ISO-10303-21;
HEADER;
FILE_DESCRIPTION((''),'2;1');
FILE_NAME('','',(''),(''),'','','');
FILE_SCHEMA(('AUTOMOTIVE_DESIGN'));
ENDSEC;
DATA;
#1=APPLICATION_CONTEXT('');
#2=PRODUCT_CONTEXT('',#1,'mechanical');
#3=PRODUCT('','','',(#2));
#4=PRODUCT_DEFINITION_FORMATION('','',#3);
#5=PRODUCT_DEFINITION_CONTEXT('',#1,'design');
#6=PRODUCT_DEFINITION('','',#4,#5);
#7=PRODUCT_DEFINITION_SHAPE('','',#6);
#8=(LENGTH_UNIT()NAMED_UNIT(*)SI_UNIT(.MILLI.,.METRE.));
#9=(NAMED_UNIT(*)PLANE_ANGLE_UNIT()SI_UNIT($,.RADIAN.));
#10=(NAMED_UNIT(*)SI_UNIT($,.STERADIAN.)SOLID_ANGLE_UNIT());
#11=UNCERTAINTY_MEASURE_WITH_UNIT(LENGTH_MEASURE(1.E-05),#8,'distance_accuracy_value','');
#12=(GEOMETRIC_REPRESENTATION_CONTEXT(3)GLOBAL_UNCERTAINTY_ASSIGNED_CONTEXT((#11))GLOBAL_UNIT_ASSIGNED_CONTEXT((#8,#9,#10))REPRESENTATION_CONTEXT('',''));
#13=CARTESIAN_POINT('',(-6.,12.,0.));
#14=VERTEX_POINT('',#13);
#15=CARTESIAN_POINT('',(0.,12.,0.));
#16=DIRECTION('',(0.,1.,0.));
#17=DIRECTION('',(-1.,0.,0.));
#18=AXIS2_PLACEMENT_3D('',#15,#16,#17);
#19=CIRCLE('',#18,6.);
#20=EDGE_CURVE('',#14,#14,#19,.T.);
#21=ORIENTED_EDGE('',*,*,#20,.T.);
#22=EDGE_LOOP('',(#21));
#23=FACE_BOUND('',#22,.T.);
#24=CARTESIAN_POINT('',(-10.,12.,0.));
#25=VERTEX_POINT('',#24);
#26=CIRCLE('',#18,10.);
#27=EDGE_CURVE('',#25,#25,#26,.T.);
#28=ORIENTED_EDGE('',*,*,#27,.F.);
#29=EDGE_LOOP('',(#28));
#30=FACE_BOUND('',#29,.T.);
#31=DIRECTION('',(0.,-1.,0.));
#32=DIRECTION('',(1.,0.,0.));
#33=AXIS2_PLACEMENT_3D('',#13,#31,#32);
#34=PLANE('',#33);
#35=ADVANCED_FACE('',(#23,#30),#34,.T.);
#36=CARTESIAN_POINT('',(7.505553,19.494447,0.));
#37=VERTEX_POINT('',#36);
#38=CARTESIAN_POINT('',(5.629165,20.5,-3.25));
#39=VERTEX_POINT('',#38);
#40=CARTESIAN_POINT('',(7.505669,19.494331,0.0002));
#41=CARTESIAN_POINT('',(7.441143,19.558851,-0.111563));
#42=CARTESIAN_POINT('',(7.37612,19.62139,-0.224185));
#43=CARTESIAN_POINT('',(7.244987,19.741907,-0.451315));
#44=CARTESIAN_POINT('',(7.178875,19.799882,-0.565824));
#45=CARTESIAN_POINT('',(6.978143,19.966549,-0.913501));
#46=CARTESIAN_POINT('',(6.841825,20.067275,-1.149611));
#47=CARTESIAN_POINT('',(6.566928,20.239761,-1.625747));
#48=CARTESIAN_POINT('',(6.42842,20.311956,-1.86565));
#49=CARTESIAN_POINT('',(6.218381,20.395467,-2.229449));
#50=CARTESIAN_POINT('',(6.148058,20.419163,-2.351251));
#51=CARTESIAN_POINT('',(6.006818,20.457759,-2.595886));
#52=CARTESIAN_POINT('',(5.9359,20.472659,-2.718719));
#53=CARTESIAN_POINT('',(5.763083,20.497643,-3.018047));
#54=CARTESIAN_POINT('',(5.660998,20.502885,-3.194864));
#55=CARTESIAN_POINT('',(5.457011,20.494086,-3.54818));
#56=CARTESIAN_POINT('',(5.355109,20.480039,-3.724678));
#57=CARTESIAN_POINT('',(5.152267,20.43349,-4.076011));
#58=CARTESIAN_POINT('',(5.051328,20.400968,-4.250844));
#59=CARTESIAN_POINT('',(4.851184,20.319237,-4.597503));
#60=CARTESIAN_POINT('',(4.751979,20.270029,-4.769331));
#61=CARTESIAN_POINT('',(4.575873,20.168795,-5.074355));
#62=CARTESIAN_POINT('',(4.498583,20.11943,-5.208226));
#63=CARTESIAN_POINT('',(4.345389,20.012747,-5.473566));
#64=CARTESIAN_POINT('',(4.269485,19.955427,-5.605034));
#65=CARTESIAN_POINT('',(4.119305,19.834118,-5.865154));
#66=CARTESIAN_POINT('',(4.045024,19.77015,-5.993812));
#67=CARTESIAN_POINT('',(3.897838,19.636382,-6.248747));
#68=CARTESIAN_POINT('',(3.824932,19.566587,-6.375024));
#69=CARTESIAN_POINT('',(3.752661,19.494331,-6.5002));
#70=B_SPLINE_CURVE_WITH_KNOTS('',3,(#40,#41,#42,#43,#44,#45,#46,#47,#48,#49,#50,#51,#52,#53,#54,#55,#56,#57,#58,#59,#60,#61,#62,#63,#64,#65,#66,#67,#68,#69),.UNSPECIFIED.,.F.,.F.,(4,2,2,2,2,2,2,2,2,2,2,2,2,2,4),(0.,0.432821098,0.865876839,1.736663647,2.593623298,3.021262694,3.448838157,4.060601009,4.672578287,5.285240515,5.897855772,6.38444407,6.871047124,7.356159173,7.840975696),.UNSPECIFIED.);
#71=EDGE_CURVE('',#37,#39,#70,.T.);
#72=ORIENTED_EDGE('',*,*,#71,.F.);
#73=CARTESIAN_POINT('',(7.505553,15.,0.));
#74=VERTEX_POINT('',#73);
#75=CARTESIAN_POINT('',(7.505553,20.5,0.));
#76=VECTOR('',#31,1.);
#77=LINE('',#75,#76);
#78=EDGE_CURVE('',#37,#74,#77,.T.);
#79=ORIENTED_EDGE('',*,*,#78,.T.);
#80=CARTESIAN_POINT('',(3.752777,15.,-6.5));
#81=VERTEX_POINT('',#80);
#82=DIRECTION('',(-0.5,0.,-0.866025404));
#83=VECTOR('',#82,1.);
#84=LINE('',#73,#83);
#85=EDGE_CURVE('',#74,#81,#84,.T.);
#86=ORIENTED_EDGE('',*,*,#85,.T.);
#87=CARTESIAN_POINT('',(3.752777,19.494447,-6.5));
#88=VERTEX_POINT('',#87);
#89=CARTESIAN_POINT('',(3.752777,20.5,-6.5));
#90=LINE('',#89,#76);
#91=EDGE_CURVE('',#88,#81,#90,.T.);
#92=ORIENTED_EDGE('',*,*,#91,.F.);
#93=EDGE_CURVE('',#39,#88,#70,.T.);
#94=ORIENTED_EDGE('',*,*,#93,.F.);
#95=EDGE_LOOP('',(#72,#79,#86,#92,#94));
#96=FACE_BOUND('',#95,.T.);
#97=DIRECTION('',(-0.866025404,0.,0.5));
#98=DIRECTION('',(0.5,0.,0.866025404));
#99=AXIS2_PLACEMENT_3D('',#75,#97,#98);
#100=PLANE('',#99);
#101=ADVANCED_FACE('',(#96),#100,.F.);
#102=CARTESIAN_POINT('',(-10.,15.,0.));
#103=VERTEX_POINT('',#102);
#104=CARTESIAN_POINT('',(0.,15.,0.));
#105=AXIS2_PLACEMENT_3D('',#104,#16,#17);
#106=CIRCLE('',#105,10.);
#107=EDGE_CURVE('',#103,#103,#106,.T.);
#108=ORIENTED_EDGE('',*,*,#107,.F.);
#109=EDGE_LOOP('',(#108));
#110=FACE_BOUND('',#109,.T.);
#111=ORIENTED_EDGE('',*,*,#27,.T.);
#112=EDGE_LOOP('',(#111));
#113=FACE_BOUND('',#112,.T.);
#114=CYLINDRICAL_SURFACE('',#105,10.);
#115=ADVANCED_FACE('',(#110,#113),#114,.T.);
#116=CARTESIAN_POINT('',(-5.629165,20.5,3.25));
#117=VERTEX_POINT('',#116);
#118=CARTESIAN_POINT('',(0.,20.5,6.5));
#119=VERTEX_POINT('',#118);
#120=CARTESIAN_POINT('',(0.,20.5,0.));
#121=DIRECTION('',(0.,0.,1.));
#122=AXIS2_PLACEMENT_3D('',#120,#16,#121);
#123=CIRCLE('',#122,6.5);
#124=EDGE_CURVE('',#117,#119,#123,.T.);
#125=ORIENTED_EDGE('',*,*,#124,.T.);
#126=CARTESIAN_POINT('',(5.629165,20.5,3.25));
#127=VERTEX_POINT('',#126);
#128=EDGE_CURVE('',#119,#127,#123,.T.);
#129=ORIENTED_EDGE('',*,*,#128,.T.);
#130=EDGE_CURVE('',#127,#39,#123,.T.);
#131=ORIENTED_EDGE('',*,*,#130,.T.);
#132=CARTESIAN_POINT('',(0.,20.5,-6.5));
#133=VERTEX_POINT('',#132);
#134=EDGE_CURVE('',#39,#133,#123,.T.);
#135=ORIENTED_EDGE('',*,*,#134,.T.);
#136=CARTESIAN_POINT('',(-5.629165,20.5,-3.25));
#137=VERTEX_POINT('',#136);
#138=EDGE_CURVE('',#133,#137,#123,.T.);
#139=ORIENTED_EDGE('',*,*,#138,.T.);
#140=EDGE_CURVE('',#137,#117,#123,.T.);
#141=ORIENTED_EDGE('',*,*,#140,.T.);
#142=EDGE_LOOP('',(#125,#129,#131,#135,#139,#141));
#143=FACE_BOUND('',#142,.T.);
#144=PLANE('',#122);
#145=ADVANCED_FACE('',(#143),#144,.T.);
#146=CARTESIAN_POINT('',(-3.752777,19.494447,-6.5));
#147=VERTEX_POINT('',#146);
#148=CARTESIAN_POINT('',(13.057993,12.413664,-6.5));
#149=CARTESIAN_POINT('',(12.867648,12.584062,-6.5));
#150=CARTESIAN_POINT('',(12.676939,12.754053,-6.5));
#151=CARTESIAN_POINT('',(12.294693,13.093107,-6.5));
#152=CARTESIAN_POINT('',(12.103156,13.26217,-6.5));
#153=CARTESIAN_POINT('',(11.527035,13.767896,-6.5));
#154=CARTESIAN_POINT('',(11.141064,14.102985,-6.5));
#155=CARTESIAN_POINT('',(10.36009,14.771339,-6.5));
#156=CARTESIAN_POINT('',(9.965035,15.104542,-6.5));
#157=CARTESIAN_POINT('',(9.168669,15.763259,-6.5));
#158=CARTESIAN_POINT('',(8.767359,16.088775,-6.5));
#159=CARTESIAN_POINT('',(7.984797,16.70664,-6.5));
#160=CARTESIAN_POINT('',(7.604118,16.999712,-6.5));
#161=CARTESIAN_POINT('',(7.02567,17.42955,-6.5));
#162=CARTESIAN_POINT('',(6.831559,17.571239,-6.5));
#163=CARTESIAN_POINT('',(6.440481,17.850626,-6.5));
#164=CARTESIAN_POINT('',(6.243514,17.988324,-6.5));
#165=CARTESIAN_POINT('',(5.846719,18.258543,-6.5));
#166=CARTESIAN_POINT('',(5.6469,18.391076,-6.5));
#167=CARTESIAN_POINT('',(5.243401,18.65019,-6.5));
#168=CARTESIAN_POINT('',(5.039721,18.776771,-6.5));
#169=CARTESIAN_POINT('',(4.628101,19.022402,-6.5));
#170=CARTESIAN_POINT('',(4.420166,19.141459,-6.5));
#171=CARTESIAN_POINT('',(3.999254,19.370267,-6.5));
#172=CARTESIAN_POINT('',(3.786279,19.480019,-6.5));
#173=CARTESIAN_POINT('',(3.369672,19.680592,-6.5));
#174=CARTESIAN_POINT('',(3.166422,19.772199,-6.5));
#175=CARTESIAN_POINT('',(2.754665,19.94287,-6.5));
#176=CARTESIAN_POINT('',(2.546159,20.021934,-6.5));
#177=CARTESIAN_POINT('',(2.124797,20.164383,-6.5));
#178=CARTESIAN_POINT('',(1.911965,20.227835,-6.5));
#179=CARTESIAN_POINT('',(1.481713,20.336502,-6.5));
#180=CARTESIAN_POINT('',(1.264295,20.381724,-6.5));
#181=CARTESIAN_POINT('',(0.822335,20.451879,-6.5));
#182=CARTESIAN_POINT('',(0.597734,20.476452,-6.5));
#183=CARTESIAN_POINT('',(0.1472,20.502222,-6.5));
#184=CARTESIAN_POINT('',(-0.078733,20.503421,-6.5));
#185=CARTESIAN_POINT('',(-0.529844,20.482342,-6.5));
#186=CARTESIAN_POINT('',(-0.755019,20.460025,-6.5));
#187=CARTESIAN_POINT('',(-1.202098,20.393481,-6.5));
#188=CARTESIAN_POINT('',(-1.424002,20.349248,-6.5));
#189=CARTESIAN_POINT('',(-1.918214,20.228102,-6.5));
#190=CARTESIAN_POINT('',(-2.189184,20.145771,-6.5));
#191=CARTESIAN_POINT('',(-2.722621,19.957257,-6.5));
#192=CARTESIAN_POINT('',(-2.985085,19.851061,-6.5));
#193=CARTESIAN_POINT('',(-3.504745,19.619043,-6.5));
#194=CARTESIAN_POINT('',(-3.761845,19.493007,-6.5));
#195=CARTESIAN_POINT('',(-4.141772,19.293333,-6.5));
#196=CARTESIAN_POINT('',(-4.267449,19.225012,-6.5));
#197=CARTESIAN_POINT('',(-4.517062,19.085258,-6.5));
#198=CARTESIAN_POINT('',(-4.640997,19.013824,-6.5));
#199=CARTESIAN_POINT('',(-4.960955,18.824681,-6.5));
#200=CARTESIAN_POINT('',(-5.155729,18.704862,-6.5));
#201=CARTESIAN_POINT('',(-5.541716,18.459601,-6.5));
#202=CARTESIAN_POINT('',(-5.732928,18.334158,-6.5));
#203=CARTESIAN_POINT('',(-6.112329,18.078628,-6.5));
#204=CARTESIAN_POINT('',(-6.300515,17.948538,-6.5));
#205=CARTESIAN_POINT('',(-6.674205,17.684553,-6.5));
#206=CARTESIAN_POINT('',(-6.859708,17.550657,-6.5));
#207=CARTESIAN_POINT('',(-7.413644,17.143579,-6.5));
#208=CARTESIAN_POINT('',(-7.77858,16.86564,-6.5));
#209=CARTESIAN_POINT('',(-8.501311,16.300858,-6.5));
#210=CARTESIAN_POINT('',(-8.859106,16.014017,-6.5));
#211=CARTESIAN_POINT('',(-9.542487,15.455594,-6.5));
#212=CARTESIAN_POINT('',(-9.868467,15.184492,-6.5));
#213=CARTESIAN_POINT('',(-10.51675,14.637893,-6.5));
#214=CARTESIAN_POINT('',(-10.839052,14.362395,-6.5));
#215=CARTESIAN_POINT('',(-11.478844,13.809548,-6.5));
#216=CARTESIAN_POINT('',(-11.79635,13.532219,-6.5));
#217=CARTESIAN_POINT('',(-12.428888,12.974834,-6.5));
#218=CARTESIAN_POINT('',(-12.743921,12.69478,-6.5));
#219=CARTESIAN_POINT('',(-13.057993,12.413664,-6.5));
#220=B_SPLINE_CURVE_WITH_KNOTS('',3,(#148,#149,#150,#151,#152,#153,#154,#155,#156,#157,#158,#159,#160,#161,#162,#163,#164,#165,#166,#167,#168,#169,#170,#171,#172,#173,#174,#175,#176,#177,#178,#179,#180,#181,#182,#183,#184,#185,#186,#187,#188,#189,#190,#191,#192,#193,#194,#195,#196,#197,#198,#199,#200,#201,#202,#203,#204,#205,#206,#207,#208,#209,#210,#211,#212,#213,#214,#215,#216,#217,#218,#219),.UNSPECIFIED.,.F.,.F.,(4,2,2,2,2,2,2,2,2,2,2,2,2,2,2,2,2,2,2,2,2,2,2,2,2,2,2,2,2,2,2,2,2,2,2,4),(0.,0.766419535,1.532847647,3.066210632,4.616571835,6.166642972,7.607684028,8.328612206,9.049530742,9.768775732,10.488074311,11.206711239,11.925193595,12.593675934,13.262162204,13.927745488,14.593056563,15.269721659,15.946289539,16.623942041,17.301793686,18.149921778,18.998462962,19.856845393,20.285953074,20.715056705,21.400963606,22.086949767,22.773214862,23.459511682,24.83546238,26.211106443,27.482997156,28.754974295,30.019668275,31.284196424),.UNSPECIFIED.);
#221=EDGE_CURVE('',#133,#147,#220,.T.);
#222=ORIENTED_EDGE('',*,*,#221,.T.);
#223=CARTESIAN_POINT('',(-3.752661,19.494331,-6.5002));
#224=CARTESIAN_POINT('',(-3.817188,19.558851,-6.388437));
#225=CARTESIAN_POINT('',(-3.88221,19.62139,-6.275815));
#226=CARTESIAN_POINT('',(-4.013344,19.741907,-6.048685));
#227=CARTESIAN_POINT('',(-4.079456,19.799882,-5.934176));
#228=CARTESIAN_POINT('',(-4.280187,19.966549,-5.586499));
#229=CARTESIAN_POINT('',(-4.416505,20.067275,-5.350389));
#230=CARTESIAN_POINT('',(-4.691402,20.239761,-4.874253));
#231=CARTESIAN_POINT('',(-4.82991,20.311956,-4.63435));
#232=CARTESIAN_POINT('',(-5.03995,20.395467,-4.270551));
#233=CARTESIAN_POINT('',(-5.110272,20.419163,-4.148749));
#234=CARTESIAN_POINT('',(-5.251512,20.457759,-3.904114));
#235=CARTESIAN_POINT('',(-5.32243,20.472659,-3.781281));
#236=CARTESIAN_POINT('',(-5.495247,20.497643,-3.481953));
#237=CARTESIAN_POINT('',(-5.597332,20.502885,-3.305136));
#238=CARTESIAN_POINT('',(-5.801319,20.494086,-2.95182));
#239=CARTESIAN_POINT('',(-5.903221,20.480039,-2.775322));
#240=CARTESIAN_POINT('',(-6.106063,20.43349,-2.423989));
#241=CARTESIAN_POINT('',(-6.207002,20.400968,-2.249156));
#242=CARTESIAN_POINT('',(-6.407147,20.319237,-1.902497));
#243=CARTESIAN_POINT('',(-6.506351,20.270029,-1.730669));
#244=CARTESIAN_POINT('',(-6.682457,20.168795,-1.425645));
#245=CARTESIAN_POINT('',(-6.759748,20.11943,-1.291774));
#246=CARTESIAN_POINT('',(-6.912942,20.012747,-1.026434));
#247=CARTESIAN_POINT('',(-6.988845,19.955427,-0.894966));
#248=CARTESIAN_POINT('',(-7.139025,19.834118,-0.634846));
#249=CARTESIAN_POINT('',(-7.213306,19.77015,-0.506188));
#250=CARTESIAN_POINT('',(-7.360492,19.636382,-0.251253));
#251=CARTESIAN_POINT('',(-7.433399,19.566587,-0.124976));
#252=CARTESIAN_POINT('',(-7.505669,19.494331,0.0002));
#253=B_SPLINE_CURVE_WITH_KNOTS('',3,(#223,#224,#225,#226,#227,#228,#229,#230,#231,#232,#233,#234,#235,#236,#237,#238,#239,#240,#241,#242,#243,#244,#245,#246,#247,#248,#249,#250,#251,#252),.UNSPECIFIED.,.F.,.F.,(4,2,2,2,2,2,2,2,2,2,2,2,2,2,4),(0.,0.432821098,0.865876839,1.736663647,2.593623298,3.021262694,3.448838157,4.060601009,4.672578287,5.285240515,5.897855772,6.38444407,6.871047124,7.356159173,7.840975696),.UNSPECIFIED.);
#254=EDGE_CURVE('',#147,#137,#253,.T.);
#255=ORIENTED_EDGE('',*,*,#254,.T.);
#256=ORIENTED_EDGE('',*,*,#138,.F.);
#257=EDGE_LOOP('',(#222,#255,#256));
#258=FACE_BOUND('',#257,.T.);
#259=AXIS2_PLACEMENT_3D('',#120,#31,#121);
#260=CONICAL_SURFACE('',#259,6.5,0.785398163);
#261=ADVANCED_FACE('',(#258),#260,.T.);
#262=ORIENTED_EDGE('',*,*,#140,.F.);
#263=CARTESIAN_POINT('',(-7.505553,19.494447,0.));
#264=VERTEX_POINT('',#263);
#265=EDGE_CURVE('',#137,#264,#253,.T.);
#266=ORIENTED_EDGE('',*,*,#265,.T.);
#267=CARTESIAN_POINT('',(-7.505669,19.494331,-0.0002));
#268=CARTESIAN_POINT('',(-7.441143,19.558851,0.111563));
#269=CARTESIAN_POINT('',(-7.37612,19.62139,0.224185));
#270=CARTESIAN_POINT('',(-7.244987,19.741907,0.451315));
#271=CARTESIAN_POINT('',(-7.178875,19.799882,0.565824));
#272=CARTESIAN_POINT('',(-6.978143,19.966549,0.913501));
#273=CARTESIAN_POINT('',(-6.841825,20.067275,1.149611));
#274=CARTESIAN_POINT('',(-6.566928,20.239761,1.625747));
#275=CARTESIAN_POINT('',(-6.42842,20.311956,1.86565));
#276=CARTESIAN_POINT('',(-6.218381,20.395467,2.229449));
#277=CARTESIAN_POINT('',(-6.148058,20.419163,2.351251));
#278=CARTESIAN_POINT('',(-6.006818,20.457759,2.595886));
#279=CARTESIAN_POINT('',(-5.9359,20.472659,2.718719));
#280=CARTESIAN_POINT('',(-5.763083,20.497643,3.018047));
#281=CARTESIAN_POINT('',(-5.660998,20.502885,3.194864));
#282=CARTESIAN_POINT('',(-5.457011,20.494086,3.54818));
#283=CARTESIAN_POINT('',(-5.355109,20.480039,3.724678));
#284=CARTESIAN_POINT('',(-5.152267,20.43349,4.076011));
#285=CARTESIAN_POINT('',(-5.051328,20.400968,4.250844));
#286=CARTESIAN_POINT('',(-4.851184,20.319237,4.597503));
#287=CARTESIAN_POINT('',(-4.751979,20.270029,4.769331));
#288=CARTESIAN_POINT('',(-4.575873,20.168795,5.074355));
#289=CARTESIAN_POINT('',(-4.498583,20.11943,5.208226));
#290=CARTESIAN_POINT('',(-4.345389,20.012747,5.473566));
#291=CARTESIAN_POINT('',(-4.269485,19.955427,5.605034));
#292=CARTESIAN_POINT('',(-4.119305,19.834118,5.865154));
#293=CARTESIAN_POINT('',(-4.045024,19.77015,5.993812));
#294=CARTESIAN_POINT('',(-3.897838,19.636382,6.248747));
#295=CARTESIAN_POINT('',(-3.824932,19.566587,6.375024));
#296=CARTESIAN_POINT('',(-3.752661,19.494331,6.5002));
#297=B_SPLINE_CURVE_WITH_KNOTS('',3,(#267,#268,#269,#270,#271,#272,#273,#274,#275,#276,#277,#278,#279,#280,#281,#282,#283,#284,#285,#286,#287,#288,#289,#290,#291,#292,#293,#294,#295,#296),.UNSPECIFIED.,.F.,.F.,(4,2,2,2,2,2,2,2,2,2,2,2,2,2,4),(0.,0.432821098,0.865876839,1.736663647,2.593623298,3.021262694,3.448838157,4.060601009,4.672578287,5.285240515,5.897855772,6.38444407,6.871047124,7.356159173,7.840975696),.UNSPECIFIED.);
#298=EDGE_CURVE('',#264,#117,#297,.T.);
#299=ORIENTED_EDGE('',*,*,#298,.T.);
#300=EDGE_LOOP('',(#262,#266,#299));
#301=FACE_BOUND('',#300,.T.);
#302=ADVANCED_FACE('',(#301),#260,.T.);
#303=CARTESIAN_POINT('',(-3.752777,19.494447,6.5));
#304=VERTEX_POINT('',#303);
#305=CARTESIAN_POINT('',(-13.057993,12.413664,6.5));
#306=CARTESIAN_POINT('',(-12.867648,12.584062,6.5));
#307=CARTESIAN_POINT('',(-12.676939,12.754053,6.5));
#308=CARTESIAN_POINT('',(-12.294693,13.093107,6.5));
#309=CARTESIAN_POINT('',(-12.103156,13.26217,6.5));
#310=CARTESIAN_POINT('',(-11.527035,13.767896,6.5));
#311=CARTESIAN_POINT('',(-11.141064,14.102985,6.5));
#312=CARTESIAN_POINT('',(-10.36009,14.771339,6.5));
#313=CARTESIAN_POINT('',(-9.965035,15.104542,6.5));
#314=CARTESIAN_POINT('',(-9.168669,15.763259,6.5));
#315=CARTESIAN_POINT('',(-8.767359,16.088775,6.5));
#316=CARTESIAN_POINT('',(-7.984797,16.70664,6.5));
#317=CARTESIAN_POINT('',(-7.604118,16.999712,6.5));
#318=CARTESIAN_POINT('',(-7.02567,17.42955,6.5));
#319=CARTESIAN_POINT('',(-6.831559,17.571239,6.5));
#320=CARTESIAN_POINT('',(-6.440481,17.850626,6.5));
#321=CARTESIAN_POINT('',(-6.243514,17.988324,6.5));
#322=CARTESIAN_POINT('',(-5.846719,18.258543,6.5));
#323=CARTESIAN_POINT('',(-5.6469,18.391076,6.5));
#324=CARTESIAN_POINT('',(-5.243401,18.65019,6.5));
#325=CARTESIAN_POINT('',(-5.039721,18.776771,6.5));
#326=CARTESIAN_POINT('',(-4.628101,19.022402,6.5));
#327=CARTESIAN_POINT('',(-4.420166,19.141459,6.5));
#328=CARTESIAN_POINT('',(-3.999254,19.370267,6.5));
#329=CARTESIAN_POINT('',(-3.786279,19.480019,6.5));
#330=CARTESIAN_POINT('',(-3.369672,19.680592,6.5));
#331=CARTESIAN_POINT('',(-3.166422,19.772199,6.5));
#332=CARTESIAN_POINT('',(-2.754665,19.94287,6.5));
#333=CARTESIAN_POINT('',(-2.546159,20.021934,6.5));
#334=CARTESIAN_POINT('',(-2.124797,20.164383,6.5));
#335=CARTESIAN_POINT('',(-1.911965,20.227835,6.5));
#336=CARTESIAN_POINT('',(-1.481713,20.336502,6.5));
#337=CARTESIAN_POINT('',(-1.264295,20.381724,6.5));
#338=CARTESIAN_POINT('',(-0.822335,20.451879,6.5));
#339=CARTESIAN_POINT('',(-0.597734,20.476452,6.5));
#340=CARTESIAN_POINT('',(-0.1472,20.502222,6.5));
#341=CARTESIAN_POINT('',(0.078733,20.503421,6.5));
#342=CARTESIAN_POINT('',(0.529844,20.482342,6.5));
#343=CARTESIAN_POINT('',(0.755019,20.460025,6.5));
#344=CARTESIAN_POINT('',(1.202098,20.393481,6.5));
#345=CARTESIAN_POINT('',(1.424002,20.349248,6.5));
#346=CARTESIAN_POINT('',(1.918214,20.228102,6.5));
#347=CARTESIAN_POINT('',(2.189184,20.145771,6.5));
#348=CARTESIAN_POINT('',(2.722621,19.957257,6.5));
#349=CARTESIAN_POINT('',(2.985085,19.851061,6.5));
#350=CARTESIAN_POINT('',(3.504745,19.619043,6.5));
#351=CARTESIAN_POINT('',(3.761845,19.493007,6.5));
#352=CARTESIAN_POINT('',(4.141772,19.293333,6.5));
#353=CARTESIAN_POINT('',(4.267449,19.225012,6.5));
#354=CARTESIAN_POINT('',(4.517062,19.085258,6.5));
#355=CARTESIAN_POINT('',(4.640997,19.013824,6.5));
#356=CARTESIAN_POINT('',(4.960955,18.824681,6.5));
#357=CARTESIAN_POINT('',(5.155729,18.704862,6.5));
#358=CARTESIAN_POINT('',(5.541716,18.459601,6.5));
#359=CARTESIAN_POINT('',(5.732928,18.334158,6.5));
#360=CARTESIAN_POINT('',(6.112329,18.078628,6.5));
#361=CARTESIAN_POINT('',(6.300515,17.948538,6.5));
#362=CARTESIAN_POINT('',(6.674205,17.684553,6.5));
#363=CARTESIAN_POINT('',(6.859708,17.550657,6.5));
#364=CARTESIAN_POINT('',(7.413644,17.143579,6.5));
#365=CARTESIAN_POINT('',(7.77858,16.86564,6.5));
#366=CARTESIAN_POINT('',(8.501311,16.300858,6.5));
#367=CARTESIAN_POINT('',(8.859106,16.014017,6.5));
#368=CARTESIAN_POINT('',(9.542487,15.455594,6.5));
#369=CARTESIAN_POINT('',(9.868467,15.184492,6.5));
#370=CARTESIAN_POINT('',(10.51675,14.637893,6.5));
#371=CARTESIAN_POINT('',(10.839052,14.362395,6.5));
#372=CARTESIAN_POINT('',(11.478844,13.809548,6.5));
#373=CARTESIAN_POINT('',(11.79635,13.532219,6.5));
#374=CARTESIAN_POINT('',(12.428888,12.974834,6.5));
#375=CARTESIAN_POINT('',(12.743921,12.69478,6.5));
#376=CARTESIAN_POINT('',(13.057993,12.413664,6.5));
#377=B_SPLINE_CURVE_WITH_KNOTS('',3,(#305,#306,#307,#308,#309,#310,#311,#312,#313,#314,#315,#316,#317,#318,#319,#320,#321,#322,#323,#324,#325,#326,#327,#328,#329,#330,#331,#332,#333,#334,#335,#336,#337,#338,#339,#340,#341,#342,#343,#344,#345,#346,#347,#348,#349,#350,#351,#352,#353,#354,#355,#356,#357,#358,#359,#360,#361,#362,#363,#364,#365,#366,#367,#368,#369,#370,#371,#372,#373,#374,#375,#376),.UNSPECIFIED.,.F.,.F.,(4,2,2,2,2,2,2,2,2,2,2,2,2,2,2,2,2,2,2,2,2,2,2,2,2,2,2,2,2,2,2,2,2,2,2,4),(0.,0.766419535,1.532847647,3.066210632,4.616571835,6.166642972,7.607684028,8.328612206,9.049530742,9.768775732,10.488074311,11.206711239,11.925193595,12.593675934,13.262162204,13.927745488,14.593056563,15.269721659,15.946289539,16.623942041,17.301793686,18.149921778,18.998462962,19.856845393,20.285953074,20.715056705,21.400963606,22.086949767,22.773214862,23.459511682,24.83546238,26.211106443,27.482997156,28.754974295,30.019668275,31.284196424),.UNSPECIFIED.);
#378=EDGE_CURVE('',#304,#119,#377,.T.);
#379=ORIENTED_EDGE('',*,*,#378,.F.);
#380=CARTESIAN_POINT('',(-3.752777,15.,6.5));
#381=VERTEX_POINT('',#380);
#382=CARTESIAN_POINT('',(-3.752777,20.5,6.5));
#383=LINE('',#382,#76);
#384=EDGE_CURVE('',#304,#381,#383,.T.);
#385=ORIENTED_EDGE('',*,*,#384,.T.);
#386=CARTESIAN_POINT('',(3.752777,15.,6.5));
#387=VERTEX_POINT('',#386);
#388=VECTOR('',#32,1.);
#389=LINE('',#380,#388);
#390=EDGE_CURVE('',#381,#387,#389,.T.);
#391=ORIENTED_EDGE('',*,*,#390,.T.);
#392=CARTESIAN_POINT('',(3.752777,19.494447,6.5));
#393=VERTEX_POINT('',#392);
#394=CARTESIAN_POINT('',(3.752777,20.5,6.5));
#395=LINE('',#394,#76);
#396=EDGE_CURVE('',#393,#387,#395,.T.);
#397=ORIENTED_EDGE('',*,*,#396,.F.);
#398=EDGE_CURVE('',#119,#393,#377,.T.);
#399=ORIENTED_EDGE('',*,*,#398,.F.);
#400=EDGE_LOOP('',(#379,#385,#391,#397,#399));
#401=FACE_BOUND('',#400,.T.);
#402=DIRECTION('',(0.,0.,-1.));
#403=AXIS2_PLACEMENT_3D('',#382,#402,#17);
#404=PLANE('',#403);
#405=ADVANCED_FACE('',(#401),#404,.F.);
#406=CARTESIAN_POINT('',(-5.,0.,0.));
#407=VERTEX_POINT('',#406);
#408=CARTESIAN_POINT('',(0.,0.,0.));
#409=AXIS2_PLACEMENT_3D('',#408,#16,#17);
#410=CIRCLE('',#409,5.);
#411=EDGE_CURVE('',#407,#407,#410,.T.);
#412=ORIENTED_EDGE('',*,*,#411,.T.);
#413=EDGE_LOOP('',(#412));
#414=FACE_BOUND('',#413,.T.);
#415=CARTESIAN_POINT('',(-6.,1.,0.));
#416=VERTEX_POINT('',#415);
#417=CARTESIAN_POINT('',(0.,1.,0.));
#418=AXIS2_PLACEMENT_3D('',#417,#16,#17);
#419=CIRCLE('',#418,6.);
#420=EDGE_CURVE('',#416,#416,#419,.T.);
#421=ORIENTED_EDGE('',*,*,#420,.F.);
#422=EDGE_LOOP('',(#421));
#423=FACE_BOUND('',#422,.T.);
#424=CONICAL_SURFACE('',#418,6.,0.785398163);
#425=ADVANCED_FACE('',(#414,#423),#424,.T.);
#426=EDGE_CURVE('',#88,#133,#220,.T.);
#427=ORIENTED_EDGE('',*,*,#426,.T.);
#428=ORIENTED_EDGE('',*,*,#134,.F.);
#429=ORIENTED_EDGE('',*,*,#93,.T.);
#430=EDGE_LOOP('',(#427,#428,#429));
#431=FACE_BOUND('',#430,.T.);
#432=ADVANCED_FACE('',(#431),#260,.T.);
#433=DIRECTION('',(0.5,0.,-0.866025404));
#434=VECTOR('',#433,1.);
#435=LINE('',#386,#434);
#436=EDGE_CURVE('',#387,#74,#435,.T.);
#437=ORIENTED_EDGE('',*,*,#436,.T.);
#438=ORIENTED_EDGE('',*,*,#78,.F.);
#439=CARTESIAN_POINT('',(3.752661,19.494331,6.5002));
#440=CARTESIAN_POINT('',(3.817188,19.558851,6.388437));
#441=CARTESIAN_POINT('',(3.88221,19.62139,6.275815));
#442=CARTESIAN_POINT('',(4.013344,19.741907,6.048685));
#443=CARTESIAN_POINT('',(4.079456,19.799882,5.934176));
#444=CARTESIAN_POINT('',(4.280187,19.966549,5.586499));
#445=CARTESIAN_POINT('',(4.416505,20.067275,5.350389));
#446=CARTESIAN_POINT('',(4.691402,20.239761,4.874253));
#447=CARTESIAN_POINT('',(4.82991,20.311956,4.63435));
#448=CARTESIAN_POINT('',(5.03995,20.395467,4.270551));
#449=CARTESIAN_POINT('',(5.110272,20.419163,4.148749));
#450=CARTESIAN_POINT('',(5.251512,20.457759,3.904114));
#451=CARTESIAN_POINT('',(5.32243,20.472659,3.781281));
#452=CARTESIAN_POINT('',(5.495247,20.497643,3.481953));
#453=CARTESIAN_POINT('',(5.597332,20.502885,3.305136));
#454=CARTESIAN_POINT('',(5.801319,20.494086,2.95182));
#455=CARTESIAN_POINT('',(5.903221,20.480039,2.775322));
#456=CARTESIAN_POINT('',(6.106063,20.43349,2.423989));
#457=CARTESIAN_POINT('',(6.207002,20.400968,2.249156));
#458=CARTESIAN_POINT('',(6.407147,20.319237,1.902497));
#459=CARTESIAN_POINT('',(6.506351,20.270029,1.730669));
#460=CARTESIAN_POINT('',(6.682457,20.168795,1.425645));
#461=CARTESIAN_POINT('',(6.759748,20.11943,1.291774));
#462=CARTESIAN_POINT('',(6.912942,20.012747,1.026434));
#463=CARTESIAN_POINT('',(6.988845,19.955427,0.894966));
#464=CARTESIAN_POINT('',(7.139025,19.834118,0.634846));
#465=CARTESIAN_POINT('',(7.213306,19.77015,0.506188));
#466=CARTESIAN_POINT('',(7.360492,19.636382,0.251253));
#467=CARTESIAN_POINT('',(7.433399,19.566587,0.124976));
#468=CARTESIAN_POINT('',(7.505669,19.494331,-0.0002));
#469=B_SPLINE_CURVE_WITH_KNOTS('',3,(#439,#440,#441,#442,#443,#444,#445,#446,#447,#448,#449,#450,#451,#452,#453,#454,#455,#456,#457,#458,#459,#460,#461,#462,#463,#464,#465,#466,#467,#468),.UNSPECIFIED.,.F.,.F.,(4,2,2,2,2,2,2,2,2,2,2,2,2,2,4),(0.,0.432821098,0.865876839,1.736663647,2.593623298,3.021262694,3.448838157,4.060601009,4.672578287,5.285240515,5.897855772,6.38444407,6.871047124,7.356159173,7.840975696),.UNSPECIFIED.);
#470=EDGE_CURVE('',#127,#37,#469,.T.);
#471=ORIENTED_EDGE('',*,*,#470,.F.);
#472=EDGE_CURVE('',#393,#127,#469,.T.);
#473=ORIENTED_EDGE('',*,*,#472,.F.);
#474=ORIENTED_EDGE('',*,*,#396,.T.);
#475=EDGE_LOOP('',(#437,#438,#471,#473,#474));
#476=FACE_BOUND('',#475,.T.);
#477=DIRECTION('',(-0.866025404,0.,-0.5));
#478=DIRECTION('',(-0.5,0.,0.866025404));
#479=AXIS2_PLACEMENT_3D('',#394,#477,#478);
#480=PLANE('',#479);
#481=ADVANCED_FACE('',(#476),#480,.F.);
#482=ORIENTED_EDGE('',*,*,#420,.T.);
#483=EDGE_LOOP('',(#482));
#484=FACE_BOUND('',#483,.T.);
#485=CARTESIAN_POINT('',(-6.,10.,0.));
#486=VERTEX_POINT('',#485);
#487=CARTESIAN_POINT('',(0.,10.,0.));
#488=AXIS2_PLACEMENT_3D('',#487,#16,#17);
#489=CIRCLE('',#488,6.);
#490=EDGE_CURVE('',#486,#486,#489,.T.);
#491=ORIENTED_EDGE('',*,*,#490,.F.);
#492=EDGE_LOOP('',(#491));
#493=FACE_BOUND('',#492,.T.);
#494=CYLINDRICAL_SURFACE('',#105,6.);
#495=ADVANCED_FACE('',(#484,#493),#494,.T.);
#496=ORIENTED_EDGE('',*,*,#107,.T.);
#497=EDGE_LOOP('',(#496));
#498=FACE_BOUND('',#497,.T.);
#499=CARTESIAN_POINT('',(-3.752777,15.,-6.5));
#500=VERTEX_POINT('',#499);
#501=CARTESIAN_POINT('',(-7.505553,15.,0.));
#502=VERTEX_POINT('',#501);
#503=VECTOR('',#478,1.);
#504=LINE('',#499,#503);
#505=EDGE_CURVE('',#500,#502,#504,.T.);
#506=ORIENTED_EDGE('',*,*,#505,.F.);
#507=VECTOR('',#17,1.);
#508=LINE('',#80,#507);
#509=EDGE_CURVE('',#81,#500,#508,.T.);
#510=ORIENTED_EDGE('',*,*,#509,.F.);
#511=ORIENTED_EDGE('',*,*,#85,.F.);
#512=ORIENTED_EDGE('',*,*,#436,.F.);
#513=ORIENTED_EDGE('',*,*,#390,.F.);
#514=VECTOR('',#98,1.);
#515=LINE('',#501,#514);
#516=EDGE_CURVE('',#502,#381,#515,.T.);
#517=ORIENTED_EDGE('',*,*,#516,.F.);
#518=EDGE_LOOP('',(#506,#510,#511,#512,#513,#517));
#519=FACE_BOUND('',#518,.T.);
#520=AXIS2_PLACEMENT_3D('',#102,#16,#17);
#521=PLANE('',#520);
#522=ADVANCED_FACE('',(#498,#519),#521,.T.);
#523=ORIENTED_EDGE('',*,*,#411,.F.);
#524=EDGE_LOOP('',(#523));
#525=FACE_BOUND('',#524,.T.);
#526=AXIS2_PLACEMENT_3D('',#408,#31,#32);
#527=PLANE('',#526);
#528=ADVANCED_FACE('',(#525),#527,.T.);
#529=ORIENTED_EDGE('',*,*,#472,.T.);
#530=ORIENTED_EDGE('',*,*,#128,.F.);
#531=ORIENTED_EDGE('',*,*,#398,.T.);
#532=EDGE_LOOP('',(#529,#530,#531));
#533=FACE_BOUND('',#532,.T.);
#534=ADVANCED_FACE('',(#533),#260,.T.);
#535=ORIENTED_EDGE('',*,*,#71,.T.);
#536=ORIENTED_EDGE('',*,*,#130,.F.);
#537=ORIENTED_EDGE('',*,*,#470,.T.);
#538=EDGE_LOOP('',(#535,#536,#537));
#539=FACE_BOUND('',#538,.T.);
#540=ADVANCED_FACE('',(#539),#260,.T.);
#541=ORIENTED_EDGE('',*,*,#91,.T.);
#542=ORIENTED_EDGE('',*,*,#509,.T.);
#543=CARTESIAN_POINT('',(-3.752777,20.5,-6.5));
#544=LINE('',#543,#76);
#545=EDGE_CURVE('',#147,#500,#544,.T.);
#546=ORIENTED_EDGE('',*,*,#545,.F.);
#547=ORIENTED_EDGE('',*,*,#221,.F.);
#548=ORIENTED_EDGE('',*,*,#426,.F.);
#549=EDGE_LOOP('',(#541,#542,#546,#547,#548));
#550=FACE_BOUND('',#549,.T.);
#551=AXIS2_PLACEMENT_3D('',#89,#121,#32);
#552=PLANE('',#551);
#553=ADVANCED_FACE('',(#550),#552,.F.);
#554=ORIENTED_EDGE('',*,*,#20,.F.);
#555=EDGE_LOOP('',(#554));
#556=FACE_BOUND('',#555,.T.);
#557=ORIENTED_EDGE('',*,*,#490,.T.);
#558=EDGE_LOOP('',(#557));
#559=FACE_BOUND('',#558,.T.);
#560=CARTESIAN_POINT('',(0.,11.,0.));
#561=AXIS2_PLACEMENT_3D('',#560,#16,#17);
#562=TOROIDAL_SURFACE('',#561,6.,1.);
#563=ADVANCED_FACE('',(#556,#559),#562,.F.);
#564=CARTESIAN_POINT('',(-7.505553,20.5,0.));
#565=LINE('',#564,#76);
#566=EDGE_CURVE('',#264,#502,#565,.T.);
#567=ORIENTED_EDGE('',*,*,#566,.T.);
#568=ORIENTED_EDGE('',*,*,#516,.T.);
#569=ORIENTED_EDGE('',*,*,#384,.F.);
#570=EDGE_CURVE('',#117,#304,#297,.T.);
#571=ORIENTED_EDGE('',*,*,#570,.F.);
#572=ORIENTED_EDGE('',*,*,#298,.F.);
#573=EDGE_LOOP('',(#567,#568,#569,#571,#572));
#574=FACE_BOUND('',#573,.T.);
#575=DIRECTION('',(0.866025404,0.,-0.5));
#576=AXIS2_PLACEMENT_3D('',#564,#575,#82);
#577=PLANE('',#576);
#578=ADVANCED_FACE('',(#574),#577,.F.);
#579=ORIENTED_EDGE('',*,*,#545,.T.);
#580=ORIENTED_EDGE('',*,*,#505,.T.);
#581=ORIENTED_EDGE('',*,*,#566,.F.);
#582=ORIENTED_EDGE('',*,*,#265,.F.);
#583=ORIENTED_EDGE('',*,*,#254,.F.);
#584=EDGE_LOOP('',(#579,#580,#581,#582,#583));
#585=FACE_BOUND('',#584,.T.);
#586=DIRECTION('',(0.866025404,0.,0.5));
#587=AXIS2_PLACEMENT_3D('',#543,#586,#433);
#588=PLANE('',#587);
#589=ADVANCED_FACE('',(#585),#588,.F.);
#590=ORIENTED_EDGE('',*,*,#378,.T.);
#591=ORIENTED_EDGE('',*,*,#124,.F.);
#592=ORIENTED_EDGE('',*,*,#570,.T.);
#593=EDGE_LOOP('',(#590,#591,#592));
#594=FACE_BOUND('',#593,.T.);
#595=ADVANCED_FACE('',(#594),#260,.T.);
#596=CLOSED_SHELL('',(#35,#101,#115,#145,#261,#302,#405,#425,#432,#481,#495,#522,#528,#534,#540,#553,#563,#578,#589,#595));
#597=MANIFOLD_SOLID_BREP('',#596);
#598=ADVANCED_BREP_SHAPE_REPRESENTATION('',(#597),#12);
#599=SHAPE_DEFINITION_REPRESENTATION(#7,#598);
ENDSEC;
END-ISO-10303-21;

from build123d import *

# Parameters (mm, degrees)
BOSS_EXTRUDE1_DEPTH = 5.5
SKETCH3_OUTSIDE_W   = 39.986
SKETCH3_OUTSIDE_H   = 39.986
SKETCH3_OUTSIDE_R   = 6.5
CUT_EXTRUDE1_DEPTH  = 5.5
CUT_EXTRUDE1_DRAFT  = -45


with BuildPart() as part:
    # Sketch1 → Revolve1 (revolve)
    with BuildSketch(Plane.XY):
        with BuildLine():
            Line((0, 0), (-5, 0))
            Line((-5, 0), (-6, 1))
            Line((-6, 1), (-6, 10))
            ThreePointArc((-6, 10), (-5, 11), (-6, 12))
            Line((-6, 12), (-10, 12))
            Line((-10, 12), (-10, 15))
            Line((-10, 15), (0, 15))
            Line((0, 15), (0, 0))
        make_face()
    revolve(axis=Axis((0, 15, 0), (0, -1, 0)))

    # Sketch2 → Boss-Extrude1 (add)
    with BuildSketch(Plane(origin=(0, 15, 0), x_dir=(1, 0, 0), z_dir=(0, 1, 0))):
        Polygon((-3.75277675, 6.5), (-7.505553499, 0), (-3.75277675, -6.5), (3.75277675, -6.5), (7.505553499, 0), (3.75277675, 6.5), align=None)
    extrude(amount=BOSS_EXTRUDE1_DEPTH)


with BuildPart() as cut_extrude1_tool:
    # Sketch3 outside → Cut-Extrude1 (with draft: the straight prism first)
    with BuildSketch(Plane(origin=(0, 20.5, 0), x_dir=(1, 0, 0), z_dir=(0, 1, 0))):
        Rectangle(SKETCH3_OUTSIDE_W, SKETCH3_OUTSIDE_H)
        Circle(SKETCH3_OUTSIDE_R, mode=Mode.SUBTRACT)
    extrude(amount=-CUT_EXTRUDE1_DEPTH)
    # Cut-Extrude1: the draft: its side faces are tilted about the plane it starts from
    cut_extrude1_sides = [cut_extrude1_tool.faces().sort_by_distance(p)[0] for p in [
        (0, 17.75, 19.993),
        (19.993, 17.75, 0),
        (0, 17.75, -19.993),
        (-19.993, 17.75, 0),
        (-6.5, 17.75, 0),
    ]]
    draft(cut_extrude1_sides, Plane(origin=(0, 20.5, 0), x_dir=(1, 0, 0), z_dir=(0, 1, 0)), CUT_EXTRUDE1_DRAFT)


with BuildPart() as part_1:
    add(part.part)

    # Cut-Extrude1: cut by cut_extrude1_tool
    add(cut_extrude1_tool.part, mode=Mode.SUBTRACT)


solid = part_1.part
